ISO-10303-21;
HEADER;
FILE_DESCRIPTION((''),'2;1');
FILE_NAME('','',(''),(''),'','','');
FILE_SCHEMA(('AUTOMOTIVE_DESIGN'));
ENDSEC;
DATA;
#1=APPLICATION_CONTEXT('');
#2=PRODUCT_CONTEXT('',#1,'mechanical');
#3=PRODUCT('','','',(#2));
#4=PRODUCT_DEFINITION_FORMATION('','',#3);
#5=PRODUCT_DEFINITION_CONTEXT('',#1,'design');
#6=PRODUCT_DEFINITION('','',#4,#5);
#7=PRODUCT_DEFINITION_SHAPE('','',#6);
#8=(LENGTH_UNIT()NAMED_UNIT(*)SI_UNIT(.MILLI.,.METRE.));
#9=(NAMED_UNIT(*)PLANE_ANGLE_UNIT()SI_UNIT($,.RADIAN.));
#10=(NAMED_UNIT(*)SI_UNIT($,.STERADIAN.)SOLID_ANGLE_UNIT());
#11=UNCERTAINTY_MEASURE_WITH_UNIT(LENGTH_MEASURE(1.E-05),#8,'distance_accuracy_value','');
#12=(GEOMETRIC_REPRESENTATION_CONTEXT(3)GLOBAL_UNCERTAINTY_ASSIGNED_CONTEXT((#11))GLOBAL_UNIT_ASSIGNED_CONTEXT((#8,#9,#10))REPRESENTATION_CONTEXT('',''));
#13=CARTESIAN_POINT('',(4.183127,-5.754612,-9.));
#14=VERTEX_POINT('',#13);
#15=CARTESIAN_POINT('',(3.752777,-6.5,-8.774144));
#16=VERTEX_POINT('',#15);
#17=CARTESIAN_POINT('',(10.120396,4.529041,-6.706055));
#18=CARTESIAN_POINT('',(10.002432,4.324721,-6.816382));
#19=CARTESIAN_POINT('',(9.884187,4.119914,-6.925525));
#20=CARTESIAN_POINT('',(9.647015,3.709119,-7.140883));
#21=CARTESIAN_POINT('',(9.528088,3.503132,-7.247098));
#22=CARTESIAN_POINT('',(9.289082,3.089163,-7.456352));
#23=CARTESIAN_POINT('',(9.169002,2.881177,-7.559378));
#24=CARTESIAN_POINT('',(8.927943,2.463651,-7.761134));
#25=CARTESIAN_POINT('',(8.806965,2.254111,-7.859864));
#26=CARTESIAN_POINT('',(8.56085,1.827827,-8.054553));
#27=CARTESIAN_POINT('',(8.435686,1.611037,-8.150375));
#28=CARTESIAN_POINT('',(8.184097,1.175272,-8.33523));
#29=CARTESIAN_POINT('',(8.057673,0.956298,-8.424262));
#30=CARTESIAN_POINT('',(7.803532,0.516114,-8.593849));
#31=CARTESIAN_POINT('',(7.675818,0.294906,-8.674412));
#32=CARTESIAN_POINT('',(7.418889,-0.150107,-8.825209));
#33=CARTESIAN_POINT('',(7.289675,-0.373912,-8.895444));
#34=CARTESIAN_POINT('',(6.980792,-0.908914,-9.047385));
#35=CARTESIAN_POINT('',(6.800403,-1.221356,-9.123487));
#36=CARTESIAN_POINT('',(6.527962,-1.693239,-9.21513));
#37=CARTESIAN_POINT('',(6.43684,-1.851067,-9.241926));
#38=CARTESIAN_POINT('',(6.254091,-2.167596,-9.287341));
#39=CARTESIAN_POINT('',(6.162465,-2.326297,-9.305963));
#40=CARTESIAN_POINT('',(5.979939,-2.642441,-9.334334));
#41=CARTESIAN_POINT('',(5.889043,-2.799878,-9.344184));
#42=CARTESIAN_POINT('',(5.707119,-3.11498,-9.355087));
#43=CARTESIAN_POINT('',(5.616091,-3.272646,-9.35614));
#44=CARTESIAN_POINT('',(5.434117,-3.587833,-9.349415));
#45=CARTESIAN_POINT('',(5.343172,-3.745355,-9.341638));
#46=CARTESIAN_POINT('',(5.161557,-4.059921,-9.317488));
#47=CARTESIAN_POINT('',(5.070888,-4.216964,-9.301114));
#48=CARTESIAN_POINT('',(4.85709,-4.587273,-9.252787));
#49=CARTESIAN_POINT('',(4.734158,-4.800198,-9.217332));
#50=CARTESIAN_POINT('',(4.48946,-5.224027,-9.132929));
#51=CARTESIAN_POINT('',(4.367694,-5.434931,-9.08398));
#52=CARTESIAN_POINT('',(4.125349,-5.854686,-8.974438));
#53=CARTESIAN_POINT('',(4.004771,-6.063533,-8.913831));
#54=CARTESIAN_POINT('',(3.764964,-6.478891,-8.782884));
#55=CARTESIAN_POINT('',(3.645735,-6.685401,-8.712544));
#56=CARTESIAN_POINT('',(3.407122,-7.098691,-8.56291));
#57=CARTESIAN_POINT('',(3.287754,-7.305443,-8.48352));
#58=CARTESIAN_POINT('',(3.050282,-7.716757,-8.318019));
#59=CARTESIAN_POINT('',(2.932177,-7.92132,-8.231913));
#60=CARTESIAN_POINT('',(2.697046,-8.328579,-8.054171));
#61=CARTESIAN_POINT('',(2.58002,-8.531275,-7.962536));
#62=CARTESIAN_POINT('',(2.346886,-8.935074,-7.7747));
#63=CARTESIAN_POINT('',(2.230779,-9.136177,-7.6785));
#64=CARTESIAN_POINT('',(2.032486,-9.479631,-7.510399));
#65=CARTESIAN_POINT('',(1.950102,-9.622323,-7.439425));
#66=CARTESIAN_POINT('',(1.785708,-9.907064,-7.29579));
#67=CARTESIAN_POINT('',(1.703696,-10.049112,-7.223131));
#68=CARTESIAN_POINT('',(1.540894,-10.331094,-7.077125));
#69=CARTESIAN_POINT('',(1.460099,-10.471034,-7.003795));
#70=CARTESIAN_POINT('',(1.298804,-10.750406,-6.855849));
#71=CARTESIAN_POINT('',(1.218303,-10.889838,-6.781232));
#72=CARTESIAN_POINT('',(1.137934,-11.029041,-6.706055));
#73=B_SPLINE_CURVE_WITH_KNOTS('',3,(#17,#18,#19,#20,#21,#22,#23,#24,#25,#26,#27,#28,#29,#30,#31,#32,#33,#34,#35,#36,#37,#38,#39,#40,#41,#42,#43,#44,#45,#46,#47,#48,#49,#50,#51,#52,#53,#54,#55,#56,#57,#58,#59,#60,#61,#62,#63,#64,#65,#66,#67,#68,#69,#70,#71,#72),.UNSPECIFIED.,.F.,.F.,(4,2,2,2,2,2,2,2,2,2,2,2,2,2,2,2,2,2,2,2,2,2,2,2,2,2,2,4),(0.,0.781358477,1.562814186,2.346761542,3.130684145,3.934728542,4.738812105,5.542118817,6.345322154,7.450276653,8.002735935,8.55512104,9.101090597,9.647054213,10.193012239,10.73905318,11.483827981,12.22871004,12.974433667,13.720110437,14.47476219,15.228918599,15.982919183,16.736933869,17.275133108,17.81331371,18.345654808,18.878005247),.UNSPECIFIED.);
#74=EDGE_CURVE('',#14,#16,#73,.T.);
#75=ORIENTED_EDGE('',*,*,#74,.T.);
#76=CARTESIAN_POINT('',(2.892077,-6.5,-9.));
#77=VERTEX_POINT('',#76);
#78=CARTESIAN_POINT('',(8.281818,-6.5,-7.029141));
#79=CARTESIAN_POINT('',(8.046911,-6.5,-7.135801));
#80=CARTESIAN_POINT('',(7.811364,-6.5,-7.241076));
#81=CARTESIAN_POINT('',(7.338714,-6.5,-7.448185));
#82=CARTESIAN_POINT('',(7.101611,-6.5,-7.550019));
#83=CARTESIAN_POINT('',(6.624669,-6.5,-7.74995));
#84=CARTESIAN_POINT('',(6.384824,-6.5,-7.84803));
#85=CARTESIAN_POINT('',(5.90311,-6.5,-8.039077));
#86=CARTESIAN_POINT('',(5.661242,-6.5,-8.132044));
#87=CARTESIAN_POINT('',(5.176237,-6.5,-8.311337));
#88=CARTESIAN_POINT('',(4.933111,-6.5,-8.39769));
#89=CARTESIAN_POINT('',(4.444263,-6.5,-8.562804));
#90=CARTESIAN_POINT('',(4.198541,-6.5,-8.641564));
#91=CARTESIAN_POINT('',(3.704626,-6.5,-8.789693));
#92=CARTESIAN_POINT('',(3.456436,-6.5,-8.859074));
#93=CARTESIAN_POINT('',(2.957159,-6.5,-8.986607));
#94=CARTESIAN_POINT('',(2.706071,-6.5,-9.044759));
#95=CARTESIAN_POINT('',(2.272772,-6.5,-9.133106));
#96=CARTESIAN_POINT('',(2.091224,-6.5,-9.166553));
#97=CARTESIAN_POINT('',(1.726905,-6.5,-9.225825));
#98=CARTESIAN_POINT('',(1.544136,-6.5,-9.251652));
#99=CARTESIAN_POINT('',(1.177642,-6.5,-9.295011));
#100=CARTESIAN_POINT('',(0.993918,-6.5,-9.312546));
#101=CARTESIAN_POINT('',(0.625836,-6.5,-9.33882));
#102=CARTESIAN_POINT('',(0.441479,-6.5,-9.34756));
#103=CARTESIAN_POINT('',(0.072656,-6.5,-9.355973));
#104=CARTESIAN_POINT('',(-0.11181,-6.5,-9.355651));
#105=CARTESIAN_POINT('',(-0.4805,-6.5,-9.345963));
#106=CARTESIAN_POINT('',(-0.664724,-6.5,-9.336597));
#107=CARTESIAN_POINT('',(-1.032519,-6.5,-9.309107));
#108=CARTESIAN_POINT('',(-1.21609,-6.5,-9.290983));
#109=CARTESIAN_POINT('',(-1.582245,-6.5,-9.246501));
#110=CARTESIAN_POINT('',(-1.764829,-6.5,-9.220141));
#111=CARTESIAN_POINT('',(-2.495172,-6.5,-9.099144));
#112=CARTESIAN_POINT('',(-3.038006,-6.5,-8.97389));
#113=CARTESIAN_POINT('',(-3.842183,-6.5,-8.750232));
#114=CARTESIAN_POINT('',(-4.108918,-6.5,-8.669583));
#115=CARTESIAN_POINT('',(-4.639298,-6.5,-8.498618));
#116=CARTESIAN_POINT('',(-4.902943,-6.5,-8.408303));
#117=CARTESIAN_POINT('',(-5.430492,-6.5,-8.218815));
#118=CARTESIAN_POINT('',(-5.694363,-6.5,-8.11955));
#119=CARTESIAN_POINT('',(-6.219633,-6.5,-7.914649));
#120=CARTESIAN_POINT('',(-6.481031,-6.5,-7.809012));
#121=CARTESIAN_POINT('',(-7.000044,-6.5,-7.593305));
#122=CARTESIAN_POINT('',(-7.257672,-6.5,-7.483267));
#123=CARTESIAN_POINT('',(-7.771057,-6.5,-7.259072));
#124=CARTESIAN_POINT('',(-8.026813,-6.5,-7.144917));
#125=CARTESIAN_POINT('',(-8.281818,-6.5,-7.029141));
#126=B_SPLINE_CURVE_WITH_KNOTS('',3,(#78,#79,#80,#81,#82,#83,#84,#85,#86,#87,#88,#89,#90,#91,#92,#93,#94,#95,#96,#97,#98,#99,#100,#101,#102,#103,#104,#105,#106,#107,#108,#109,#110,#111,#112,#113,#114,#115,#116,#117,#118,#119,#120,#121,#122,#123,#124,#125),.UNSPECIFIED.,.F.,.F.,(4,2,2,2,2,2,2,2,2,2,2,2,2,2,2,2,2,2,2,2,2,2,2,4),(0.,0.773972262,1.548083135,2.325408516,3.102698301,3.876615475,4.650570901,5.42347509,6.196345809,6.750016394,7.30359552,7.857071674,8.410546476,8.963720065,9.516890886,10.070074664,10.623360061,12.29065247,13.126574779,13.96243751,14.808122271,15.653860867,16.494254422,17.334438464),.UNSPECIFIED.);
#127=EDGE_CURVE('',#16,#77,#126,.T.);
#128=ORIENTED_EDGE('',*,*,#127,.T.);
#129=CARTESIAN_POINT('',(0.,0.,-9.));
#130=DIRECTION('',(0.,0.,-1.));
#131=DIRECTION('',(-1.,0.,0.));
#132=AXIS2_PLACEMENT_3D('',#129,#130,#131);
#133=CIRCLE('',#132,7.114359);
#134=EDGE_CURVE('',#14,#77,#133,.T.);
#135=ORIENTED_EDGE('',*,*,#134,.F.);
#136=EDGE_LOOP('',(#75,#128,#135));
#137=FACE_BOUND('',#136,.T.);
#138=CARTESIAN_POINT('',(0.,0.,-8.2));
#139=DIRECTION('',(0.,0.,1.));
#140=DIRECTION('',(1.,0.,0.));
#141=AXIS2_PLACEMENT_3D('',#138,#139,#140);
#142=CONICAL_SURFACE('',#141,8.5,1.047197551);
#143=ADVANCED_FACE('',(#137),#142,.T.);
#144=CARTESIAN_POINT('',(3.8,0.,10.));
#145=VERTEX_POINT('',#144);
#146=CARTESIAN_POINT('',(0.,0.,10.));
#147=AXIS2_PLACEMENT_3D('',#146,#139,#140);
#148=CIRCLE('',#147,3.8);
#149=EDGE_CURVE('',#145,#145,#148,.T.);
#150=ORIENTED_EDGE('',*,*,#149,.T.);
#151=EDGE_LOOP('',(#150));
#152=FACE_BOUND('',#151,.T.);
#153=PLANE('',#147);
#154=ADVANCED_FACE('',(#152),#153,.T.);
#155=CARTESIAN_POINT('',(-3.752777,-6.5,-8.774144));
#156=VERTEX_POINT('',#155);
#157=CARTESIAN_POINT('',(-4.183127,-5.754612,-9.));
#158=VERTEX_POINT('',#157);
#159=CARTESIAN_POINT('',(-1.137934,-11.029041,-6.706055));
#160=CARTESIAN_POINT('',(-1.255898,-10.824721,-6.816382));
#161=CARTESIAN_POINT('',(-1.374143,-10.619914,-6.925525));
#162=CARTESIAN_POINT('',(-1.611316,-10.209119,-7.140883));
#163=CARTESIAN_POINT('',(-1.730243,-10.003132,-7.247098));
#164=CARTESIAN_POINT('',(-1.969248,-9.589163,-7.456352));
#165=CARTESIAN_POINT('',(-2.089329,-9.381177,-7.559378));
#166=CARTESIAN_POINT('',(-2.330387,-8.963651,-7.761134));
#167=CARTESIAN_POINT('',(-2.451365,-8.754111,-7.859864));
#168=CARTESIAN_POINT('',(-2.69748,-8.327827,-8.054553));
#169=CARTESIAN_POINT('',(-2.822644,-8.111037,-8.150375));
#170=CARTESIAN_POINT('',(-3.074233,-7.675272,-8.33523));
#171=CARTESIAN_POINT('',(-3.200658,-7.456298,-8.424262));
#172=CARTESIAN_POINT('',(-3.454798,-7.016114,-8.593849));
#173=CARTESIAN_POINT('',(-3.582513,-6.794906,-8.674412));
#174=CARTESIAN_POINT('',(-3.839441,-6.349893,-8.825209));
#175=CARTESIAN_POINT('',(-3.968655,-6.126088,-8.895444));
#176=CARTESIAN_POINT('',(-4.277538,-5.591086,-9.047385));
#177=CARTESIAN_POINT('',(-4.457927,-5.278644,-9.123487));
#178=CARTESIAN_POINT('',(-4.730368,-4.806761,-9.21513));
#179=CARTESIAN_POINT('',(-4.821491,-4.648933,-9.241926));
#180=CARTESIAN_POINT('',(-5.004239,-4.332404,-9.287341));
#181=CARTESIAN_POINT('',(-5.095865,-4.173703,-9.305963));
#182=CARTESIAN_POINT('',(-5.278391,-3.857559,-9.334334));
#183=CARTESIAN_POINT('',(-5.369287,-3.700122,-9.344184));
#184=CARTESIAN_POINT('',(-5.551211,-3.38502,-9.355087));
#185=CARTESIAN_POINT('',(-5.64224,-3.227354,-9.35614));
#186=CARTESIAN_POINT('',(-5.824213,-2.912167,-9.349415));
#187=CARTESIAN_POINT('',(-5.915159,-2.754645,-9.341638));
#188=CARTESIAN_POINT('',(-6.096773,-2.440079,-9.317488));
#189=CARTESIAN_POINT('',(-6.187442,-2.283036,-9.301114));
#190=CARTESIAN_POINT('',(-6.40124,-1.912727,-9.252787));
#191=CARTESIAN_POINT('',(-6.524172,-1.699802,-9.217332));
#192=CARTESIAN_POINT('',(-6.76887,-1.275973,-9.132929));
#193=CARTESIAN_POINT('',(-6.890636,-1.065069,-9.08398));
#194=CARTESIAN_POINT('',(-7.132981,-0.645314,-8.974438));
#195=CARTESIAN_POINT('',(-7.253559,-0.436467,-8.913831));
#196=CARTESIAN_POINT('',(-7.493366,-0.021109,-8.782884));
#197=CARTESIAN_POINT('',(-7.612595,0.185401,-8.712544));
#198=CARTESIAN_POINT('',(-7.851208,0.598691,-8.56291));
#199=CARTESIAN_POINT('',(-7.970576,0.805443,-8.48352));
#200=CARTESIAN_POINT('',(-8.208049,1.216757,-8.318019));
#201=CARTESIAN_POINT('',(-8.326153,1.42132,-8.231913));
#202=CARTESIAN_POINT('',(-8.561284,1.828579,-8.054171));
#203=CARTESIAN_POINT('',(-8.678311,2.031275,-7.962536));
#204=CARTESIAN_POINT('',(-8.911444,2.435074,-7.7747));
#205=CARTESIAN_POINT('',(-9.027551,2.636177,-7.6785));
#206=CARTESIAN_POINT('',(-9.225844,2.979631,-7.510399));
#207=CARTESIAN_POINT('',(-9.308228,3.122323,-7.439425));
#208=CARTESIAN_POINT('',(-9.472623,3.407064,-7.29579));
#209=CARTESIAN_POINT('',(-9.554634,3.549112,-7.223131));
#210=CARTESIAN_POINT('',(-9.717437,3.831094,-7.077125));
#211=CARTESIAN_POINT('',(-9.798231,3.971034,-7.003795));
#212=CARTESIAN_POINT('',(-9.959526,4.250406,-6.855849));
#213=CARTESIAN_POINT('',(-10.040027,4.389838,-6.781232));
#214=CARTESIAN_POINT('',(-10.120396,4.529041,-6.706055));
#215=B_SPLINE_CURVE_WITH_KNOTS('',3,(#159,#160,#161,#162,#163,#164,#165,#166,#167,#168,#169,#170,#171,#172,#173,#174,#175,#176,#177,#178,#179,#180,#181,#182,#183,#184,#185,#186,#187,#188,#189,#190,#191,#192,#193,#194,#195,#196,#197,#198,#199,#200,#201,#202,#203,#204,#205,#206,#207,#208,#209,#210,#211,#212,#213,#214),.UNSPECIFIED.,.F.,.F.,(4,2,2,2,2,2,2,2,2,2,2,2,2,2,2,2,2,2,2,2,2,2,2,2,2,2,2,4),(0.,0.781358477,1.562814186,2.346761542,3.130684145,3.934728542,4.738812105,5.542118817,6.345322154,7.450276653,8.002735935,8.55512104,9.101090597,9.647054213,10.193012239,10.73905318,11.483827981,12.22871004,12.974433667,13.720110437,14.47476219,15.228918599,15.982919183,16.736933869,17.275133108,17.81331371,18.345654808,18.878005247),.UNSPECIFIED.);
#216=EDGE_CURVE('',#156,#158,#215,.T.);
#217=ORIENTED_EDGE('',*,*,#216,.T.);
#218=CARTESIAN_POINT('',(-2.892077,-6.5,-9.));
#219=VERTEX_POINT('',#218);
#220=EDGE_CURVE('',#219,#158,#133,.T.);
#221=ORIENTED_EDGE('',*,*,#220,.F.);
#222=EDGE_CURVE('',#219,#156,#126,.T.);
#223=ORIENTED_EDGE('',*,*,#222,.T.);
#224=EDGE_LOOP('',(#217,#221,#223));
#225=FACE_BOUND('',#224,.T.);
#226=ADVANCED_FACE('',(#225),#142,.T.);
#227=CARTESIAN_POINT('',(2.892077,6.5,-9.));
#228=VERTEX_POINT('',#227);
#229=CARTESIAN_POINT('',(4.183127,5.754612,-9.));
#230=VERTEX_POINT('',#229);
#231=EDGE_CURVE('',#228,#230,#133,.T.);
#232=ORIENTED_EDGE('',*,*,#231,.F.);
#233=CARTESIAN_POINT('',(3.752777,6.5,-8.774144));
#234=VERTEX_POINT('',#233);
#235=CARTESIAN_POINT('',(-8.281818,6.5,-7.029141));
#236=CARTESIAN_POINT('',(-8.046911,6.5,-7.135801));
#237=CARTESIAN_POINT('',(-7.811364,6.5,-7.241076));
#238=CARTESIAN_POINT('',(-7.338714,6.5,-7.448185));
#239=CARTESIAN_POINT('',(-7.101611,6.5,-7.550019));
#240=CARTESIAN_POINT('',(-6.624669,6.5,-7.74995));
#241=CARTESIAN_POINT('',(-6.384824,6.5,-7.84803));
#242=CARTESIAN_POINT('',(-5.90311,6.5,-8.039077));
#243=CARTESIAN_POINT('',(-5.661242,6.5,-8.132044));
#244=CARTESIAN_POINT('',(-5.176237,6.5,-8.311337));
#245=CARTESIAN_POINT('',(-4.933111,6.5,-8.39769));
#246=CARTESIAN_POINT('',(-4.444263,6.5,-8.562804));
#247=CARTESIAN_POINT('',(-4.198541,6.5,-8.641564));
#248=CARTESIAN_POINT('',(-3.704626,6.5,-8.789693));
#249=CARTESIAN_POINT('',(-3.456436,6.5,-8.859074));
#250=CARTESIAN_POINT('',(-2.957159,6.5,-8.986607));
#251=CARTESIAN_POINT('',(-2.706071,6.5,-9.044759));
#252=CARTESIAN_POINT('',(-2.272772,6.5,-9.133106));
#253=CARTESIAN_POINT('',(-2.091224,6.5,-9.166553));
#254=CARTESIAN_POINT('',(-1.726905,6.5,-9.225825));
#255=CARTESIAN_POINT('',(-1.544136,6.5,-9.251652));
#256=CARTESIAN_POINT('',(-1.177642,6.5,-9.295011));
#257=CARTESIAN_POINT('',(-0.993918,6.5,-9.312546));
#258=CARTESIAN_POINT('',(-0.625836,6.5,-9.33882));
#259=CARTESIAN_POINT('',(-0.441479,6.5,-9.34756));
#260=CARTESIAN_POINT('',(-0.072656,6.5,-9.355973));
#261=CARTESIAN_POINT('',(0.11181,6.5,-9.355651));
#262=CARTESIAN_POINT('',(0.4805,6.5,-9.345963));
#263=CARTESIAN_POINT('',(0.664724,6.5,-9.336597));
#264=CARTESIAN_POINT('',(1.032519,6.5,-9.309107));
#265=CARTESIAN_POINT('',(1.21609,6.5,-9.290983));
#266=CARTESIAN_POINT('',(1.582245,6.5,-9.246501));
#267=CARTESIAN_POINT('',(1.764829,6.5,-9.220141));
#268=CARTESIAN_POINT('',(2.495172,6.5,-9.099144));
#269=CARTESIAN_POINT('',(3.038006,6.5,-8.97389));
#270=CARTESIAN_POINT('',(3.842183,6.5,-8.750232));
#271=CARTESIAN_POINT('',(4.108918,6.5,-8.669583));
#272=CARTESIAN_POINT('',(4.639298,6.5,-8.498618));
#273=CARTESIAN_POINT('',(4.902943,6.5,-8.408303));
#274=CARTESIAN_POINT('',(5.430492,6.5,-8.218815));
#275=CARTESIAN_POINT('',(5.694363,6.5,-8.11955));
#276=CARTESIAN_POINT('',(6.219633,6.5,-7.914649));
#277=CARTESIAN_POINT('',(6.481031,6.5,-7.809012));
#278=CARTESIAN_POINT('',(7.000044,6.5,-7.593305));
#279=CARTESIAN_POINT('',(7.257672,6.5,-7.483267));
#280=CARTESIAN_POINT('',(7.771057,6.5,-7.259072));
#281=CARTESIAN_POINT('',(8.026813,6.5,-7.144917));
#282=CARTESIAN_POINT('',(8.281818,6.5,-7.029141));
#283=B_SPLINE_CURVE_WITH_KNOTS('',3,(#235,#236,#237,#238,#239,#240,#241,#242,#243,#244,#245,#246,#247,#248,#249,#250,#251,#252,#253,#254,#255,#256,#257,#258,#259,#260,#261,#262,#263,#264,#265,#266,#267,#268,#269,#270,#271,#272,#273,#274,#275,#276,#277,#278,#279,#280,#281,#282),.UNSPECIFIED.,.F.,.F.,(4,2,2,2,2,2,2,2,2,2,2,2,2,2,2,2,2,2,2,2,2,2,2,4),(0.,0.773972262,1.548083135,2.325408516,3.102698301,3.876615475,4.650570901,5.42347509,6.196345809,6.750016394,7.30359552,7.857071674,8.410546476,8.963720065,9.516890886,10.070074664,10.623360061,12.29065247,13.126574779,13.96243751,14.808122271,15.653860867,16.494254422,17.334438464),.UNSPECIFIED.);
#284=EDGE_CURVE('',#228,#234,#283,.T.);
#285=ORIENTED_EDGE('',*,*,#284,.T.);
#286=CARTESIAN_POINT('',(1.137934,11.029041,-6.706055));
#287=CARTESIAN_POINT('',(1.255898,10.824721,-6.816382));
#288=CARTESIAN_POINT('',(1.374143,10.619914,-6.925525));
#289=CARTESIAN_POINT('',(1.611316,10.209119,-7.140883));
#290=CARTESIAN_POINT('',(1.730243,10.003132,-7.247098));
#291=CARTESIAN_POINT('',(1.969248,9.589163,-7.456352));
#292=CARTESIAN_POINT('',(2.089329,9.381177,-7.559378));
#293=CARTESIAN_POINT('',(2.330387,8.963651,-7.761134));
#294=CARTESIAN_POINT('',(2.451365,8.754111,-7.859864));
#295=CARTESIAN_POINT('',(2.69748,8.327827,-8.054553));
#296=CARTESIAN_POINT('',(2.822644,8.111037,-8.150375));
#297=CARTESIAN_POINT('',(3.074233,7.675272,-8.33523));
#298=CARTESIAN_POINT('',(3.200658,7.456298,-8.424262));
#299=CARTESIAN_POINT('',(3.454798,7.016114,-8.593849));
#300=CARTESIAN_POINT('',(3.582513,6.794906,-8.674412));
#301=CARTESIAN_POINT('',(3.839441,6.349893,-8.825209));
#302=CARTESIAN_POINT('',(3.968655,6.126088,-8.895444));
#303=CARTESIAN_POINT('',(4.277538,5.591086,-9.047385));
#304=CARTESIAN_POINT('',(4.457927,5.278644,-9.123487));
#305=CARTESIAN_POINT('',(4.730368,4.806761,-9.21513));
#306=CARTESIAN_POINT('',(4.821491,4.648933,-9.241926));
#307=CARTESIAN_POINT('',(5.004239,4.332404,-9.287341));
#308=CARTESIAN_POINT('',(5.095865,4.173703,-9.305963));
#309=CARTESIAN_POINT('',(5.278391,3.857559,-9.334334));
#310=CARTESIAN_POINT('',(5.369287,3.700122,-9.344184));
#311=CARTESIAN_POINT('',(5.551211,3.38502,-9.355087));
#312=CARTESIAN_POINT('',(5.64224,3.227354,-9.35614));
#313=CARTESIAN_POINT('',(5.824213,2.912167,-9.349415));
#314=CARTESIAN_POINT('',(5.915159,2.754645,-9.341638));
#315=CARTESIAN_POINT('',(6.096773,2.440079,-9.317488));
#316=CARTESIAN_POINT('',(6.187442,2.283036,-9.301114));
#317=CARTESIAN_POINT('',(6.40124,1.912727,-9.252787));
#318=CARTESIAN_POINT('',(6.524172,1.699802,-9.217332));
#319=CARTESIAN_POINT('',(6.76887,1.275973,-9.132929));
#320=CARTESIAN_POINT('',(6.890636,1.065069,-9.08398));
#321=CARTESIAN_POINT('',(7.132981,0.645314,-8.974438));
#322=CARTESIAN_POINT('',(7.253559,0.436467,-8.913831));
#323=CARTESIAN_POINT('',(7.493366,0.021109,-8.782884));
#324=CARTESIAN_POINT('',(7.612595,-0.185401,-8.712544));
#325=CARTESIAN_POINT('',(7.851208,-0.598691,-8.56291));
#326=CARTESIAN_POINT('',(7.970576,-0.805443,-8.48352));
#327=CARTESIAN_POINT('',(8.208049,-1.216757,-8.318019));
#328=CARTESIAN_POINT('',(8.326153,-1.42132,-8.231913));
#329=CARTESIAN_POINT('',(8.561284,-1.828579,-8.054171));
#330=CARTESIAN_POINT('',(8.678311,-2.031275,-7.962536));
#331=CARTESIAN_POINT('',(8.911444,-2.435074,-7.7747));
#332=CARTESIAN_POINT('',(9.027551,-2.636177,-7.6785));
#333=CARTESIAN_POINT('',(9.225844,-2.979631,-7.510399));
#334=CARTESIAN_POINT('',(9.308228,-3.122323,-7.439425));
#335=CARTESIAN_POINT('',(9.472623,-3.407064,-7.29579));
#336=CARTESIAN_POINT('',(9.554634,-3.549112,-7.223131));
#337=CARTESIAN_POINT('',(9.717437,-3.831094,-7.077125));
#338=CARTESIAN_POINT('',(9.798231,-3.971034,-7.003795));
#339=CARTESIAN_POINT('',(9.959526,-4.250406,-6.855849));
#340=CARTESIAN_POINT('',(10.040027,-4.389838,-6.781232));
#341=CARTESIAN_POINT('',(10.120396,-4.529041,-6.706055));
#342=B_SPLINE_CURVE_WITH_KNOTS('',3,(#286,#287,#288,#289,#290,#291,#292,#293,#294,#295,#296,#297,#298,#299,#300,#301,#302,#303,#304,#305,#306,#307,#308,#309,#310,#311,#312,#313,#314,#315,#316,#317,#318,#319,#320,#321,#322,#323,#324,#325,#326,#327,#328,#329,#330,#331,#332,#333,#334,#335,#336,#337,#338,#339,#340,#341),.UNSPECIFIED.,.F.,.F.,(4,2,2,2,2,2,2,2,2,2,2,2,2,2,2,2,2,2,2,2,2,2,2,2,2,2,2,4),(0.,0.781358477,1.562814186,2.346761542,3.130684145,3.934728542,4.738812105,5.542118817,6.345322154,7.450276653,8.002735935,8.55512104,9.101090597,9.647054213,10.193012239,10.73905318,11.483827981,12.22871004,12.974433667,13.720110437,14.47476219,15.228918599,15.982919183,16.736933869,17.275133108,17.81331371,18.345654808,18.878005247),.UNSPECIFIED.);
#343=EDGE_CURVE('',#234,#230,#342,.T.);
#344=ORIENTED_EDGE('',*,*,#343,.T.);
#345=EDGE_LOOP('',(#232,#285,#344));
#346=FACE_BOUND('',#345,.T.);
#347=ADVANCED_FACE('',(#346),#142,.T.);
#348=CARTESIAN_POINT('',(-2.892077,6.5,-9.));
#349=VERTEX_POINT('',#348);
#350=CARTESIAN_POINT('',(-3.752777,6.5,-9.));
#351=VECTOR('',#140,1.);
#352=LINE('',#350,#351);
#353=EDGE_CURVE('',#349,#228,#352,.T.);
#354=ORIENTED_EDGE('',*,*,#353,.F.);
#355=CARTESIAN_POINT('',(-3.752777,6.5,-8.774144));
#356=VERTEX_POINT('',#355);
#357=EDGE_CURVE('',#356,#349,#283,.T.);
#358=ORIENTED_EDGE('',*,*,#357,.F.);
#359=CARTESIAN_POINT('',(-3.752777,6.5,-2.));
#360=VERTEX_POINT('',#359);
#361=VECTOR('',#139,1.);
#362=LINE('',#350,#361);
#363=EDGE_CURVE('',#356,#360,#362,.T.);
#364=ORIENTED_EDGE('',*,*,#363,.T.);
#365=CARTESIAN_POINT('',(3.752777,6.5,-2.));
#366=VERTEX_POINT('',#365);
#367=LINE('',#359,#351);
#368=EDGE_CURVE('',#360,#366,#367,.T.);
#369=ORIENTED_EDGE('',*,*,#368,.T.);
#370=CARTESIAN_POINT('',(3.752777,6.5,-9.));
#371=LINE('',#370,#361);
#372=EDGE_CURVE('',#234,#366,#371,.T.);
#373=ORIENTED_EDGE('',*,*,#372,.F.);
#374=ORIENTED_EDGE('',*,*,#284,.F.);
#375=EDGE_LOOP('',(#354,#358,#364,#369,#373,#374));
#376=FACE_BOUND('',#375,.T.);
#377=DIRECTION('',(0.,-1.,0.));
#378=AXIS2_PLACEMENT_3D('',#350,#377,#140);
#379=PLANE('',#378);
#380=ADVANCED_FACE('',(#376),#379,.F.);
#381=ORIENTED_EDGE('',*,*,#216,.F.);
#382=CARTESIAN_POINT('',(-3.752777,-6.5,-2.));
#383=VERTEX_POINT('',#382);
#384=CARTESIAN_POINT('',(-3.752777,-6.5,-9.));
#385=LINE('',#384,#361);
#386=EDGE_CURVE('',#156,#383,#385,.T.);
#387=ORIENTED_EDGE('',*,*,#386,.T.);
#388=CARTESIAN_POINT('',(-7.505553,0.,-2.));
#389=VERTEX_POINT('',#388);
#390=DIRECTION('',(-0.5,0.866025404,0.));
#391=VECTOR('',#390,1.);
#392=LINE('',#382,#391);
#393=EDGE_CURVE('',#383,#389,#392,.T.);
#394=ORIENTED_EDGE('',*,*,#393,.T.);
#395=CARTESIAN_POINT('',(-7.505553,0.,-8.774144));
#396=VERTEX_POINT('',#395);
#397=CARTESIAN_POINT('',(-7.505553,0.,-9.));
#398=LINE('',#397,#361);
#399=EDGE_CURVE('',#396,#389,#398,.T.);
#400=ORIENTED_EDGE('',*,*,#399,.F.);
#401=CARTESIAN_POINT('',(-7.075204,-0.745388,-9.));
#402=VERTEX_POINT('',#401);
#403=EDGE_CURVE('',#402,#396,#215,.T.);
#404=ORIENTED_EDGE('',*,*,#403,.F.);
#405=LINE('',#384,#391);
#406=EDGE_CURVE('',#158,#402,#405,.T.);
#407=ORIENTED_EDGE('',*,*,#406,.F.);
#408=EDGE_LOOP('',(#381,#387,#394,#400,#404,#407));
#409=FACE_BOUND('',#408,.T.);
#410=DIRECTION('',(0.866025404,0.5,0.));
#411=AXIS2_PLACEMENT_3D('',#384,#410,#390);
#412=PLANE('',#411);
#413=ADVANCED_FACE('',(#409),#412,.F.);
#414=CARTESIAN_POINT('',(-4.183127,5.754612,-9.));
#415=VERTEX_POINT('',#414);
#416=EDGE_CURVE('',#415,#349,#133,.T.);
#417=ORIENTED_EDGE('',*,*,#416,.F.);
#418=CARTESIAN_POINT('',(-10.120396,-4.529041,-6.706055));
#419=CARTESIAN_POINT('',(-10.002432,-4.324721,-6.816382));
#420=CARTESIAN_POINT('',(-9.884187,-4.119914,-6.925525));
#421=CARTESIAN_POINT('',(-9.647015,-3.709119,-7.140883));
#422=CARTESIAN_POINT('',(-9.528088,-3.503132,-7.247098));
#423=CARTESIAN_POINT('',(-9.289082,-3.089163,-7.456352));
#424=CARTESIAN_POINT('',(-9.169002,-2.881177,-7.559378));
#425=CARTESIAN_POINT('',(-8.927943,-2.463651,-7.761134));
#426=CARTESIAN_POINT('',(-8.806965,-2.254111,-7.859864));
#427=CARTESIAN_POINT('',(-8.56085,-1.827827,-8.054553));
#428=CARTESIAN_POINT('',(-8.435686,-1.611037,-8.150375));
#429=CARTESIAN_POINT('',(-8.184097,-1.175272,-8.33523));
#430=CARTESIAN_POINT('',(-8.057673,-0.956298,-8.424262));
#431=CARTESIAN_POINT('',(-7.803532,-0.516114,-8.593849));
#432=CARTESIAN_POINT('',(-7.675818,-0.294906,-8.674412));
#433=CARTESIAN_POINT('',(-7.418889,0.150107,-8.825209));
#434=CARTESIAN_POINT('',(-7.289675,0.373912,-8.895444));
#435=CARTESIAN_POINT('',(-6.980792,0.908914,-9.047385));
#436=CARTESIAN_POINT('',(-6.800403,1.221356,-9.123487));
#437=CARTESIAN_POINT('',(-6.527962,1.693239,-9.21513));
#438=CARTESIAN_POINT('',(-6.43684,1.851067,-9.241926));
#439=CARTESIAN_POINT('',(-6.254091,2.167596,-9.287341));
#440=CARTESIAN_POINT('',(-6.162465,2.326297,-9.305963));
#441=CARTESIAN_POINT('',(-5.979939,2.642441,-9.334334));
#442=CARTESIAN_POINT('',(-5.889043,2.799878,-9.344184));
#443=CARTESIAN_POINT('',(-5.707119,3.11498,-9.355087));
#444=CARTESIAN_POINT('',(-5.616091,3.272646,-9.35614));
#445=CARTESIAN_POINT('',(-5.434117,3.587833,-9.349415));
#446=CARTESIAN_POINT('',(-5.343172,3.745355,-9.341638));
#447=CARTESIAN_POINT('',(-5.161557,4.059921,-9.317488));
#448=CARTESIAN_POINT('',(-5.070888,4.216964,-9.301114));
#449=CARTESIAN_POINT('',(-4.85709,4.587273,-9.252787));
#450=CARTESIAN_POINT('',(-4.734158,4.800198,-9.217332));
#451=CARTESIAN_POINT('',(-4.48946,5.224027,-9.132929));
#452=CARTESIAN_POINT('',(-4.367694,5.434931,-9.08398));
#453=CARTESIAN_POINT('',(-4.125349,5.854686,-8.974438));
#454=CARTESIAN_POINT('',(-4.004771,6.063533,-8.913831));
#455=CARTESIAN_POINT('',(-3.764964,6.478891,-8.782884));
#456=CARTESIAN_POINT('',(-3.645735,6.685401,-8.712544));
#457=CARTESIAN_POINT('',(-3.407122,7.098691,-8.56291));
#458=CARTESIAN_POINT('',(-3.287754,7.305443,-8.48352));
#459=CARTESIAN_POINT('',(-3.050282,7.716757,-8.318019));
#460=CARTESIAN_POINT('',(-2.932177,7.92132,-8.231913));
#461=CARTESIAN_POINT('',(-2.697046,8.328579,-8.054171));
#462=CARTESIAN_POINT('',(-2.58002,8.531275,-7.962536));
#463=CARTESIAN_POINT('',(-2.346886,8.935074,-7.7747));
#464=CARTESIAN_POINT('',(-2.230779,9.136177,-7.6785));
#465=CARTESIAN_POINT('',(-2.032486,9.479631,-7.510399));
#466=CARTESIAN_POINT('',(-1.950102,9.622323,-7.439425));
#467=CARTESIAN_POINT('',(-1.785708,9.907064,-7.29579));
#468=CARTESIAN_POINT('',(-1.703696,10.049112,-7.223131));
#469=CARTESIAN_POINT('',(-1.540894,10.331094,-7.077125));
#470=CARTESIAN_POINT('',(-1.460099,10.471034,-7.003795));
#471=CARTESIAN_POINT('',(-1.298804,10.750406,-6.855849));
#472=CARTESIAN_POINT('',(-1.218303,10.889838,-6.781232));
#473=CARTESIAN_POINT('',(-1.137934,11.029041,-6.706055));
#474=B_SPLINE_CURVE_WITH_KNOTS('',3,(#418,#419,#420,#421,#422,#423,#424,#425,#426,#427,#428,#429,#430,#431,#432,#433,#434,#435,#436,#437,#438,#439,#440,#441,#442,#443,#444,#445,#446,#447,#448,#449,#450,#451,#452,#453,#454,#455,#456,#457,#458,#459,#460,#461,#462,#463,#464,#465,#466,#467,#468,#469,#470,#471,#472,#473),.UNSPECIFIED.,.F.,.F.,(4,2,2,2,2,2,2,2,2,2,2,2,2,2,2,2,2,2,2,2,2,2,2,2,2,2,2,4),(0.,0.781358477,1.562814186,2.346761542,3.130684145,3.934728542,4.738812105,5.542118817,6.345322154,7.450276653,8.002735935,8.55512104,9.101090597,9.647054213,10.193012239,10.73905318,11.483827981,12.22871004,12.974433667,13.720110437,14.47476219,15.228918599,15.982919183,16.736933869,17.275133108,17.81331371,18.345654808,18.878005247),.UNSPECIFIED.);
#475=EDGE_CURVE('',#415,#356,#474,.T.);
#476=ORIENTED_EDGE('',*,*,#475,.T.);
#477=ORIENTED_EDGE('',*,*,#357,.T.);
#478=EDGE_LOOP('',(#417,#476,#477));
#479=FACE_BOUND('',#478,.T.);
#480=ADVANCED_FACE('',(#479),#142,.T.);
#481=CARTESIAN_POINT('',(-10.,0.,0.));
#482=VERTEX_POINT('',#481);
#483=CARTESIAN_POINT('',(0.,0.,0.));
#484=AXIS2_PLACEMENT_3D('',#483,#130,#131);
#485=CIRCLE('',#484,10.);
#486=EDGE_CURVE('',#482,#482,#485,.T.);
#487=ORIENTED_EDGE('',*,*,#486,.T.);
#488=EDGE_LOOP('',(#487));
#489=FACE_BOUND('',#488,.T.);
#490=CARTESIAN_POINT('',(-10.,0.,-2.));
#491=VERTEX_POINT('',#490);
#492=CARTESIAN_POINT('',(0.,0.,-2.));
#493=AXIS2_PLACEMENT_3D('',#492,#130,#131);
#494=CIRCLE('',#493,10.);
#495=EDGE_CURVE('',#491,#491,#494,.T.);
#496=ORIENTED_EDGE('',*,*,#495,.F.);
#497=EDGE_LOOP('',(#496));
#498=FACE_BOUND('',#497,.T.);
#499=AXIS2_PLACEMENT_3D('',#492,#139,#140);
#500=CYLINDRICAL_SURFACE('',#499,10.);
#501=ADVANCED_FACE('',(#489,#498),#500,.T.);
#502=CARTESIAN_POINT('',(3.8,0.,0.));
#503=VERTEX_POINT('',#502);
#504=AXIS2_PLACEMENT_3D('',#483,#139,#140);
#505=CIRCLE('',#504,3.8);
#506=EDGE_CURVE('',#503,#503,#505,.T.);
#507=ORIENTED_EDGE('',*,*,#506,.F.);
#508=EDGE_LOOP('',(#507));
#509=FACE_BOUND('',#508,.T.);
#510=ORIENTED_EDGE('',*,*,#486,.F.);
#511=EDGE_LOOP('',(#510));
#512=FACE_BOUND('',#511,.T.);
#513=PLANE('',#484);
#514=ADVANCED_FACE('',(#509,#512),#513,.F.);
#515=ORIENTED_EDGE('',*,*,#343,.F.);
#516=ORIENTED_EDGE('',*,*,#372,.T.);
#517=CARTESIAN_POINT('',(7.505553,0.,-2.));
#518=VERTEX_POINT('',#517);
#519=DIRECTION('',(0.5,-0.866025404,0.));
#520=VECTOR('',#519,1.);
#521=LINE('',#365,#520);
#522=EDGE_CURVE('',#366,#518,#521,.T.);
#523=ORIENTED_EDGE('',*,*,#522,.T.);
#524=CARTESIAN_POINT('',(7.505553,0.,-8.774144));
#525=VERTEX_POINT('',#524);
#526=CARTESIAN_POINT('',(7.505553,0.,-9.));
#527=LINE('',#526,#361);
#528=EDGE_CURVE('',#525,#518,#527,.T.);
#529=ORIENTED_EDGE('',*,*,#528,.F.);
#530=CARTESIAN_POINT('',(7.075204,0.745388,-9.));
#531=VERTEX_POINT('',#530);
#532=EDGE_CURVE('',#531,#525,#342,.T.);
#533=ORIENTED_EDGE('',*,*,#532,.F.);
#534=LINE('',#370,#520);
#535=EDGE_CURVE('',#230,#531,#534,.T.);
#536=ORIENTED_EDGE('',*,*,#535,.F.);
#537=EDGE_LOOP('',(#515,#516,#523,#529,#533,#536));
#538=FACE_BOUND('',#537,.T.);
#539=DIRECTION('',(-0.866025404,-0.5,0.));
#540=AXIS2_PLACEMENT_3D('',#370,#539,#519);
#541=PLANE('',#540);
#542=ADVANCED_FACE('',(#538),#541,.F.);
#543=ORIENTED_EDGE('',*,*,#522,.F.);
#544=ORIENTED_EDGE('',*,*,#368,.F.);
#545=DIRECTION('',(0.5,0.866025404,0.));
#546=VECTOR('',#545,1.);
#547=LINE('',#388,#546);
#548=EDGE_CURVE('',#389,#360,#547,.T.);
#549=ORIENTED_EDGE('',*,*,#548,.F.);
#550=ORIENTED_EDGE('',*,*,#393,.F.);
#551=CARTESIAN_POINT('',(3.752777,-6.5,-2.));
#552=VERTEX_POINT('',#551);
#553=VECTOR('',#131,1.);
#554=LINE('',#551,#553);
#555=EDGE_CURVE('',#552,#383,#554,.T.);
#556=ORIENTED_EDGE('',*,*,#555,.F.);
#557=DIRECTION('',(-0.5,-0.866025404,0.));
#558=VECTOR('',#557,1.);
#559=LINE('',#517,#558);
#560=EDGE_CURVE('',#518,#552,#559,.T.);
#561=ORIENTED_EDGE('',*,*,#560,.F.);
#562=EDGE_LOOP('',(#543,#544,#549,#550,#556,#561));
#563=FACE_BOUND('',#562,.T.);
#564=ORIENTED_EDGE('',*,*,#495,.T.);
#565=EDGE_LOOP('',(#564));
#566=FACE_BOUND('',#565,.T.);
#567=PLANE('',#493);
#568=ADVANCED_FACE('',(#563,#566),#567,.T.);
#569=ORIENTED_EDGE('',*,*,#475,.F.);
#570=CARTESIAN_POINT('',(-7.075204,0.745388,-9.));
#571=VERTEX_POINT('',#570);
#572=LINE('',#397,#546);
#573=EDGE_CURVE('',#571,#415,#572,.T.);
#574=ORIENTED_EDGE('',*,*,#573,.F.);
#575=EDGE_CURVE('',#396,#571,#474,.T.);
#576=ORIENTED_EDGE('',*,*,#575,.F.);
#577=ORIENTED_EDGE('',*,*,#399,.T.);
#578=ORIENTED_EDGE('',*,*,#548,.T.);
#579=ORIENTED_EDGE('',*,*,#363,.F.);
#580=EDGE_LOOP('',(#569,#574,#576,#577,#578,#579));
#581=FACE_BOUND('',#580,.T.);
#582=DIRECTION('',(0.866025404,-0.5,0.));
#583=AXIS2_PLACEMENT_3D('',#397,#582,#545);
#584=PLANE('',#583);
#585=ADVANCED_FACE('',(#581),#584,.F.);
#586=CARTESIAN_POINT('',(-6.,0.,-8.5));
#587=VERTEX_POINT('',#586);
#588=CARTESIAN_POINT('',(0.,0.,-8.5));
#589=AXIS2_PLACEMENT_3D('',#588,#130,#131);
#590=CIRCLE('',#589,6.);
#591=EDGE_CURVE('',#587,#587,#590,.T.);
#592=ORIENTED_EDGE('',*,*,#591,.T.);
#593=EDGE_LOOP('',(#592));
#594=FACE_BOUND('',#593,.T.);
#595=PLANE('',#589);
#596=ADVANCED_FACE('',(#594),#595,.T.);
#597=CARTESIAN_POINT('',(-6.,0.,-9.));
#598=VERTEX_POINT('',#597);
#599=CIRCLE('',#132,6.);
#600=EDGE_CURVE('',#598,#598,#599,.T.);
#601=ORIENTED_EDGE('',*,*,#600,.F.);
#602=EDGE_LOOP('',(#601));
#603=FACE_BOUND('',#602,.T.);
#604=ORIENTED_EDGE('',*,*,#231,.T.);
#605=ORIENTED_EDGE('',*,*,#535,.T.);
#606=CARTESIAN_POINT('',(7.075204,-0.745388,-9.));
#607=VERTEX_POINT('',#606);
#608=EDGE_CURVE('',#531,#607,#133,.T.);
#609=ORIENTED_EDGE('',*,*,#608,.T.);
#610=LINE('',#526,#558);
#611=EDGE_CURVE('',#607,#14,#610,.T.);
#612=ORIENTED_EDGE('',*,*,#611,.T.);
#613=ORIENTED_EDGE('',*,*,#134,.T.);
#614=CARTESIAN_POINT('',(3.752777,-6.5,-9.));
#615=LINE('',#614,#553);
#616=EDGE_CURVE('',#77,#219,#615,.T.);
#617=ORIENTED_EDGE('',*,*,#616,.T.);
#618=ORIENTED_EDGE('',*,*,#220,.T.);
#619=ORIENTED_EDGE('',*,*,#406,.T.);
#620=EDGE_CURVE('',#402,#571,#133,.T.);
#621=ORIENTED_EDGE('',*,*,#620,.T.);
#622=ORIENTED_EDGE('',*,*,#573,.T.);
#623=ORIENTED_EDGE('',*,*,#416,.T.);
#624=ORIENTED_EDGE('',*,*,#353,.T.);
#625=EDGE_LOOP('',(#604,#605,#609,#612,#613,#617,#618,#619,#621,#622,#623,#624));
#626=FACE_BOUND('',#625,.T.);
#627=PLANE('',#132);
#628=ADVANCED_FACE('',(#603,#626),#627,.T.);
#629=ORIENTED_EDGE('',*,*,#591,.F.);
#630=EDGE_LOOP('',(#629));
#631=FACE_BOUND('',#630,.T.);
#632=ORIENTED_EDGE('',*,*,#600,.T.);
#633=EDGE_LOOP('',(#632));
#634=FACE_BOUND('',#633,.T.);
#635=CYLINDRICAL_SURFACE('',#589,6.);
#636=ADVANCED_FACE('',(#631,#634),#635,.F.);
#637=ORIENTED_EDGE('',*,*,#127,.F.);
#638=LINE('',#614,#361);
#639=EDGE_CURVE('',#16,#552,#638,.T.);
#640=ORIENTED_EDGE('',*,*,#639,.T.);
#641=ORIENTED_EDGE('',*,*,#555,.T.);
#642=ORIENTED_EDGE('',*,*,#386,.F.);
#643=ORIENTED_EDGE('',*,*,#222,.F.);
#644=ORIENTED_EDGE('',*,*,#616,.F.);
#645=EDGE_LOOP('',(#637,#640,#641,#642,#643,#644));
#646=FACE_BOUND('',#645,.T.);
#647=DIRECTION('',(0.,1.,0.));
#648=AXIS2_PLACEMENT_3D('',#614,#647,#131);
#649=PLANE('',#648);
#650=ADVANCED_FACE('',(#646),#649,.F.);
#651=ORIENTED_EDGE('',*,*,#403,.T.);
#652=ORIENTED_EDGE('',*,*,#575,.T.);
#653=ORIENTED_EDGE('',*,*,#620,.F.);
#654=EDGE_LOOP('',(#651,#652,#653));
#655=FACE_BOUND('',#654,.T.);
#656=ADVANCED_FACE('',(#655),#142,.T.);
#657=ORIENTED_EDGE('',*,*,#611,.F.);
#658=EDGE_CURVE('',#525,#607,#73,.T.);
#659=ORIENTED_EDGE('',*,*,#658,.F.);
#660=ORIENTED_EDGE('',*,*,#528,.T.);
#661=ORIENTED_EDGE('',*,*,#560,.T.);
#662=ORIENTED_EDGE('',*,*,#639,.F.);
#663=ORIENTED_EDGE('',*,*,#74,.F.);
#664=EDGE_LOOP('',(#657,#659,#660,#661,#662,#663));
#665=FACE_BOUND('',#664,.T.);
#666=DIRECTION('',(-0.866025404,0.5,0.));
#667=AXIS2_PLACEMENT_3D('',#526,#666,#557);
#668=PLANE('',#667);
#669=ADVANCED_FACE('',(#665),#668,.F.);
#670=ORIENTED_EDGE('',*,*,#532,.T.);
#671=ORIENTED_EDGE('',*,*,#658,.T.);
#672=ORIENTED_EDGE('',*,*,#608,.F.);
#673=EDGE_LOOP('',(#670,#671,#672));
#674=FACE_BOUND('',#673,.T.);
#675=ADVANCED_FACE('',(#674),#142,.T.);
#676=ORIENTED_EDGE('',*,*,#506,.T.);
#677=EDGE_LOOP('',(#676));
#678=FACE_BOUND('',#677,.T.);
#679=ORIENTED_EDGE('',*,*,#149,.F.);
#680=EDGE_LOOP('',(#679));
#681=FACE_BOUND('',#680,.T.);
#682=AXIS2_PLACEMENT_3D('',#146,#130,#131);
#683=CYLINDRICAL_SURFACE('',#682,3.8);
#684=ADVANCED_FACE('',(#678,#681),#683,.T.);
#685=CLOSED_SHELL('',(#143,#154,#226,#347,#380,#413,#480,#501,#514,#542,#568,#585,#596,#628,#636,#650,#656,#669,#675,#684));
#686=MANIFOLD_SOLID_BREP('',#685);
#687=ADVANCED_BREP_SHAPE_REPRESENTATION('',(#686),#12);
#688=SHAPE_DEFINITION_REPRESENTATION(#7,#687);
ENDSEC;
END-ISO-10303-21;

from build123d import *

# Parameters (mm, degrees)
CROQUIS1_R              = 3.8
SALIENTE_EXTRUIR1_DEPTH = 10
CROQUIS3_R              = 10
SALIENTE_EXTRUIR2_DEPTH = 2
SALIENTE_EXTRUIR3_DEPTH = 7
CROQUIS6_R              = 6
CORTAR_EXTRUIR6_DEPTH   = 0.5


with BuildPart() as part:
    # Croquis1 → Saliente-Extruir1 (new body)
    with BuildSketch(Plane.XY):
        Circle(CROQUIS1_R)
    extrude(amount=SALIENTE_EXTRUIR1_DEPTH)

    # Croquis3 → Saliente-Extruir2 (add)
    with BuildSketch(Plane(origin=(0, 0, 0), x_dir=(-1, 0, 0), z_dir=(0, 0, -1))):
        Circle(CROQUIS3_R)
    extrude(amount=SALIENTE_EXTRUIR2_DEPTH)

    # Croquis4 → Saliente-Extruir3 (add)
    with BuildSketch(Plane(origin=(0, 0, -2), x_dir=(-1, 0, 0), z_dir=(0, 0, -1))):
        Polygon((3.75277675, -6.5), (7.505553499, 0), (3.75277675, 6.5), (-3.75277675, 6.5), (-7.505553499, 0), (-3.75277675, -6.5), align=None)
    extrude(amount=SALIENTE_EXTRUIR3_DEPTH)

    # Croquis6 → Cortar-Extruir6 (cut)
    with BuildSketch(Plane(origin=(0, 0, -9), x_dir=(-1, 0, 0), z_dir=(0, 0, -1))):
        Circle(CROQUIS6_R)
    extrude(amount=-CORTAR_EXTRUIR6_DEPTH, mode=Mode.SUBTRACT)

    # Croquis7 → Cortar-Revolución1 (revolve, cut)
    with BuildSketch(Plane(origin=(0, 0, 0), x_dir=(1, 0, 0), z_dir=(0, 1, 0))):
        Polygon((-5.5, 15.2), (-5.5, 9.932050808), (-8.5, 8.2), (-8.5, 15.2), align=None)
    revolve(axis=Axis((0, 0, 0), (0, 0, -1)), mode=Mode.SUBTRACT)


solid = part.part
